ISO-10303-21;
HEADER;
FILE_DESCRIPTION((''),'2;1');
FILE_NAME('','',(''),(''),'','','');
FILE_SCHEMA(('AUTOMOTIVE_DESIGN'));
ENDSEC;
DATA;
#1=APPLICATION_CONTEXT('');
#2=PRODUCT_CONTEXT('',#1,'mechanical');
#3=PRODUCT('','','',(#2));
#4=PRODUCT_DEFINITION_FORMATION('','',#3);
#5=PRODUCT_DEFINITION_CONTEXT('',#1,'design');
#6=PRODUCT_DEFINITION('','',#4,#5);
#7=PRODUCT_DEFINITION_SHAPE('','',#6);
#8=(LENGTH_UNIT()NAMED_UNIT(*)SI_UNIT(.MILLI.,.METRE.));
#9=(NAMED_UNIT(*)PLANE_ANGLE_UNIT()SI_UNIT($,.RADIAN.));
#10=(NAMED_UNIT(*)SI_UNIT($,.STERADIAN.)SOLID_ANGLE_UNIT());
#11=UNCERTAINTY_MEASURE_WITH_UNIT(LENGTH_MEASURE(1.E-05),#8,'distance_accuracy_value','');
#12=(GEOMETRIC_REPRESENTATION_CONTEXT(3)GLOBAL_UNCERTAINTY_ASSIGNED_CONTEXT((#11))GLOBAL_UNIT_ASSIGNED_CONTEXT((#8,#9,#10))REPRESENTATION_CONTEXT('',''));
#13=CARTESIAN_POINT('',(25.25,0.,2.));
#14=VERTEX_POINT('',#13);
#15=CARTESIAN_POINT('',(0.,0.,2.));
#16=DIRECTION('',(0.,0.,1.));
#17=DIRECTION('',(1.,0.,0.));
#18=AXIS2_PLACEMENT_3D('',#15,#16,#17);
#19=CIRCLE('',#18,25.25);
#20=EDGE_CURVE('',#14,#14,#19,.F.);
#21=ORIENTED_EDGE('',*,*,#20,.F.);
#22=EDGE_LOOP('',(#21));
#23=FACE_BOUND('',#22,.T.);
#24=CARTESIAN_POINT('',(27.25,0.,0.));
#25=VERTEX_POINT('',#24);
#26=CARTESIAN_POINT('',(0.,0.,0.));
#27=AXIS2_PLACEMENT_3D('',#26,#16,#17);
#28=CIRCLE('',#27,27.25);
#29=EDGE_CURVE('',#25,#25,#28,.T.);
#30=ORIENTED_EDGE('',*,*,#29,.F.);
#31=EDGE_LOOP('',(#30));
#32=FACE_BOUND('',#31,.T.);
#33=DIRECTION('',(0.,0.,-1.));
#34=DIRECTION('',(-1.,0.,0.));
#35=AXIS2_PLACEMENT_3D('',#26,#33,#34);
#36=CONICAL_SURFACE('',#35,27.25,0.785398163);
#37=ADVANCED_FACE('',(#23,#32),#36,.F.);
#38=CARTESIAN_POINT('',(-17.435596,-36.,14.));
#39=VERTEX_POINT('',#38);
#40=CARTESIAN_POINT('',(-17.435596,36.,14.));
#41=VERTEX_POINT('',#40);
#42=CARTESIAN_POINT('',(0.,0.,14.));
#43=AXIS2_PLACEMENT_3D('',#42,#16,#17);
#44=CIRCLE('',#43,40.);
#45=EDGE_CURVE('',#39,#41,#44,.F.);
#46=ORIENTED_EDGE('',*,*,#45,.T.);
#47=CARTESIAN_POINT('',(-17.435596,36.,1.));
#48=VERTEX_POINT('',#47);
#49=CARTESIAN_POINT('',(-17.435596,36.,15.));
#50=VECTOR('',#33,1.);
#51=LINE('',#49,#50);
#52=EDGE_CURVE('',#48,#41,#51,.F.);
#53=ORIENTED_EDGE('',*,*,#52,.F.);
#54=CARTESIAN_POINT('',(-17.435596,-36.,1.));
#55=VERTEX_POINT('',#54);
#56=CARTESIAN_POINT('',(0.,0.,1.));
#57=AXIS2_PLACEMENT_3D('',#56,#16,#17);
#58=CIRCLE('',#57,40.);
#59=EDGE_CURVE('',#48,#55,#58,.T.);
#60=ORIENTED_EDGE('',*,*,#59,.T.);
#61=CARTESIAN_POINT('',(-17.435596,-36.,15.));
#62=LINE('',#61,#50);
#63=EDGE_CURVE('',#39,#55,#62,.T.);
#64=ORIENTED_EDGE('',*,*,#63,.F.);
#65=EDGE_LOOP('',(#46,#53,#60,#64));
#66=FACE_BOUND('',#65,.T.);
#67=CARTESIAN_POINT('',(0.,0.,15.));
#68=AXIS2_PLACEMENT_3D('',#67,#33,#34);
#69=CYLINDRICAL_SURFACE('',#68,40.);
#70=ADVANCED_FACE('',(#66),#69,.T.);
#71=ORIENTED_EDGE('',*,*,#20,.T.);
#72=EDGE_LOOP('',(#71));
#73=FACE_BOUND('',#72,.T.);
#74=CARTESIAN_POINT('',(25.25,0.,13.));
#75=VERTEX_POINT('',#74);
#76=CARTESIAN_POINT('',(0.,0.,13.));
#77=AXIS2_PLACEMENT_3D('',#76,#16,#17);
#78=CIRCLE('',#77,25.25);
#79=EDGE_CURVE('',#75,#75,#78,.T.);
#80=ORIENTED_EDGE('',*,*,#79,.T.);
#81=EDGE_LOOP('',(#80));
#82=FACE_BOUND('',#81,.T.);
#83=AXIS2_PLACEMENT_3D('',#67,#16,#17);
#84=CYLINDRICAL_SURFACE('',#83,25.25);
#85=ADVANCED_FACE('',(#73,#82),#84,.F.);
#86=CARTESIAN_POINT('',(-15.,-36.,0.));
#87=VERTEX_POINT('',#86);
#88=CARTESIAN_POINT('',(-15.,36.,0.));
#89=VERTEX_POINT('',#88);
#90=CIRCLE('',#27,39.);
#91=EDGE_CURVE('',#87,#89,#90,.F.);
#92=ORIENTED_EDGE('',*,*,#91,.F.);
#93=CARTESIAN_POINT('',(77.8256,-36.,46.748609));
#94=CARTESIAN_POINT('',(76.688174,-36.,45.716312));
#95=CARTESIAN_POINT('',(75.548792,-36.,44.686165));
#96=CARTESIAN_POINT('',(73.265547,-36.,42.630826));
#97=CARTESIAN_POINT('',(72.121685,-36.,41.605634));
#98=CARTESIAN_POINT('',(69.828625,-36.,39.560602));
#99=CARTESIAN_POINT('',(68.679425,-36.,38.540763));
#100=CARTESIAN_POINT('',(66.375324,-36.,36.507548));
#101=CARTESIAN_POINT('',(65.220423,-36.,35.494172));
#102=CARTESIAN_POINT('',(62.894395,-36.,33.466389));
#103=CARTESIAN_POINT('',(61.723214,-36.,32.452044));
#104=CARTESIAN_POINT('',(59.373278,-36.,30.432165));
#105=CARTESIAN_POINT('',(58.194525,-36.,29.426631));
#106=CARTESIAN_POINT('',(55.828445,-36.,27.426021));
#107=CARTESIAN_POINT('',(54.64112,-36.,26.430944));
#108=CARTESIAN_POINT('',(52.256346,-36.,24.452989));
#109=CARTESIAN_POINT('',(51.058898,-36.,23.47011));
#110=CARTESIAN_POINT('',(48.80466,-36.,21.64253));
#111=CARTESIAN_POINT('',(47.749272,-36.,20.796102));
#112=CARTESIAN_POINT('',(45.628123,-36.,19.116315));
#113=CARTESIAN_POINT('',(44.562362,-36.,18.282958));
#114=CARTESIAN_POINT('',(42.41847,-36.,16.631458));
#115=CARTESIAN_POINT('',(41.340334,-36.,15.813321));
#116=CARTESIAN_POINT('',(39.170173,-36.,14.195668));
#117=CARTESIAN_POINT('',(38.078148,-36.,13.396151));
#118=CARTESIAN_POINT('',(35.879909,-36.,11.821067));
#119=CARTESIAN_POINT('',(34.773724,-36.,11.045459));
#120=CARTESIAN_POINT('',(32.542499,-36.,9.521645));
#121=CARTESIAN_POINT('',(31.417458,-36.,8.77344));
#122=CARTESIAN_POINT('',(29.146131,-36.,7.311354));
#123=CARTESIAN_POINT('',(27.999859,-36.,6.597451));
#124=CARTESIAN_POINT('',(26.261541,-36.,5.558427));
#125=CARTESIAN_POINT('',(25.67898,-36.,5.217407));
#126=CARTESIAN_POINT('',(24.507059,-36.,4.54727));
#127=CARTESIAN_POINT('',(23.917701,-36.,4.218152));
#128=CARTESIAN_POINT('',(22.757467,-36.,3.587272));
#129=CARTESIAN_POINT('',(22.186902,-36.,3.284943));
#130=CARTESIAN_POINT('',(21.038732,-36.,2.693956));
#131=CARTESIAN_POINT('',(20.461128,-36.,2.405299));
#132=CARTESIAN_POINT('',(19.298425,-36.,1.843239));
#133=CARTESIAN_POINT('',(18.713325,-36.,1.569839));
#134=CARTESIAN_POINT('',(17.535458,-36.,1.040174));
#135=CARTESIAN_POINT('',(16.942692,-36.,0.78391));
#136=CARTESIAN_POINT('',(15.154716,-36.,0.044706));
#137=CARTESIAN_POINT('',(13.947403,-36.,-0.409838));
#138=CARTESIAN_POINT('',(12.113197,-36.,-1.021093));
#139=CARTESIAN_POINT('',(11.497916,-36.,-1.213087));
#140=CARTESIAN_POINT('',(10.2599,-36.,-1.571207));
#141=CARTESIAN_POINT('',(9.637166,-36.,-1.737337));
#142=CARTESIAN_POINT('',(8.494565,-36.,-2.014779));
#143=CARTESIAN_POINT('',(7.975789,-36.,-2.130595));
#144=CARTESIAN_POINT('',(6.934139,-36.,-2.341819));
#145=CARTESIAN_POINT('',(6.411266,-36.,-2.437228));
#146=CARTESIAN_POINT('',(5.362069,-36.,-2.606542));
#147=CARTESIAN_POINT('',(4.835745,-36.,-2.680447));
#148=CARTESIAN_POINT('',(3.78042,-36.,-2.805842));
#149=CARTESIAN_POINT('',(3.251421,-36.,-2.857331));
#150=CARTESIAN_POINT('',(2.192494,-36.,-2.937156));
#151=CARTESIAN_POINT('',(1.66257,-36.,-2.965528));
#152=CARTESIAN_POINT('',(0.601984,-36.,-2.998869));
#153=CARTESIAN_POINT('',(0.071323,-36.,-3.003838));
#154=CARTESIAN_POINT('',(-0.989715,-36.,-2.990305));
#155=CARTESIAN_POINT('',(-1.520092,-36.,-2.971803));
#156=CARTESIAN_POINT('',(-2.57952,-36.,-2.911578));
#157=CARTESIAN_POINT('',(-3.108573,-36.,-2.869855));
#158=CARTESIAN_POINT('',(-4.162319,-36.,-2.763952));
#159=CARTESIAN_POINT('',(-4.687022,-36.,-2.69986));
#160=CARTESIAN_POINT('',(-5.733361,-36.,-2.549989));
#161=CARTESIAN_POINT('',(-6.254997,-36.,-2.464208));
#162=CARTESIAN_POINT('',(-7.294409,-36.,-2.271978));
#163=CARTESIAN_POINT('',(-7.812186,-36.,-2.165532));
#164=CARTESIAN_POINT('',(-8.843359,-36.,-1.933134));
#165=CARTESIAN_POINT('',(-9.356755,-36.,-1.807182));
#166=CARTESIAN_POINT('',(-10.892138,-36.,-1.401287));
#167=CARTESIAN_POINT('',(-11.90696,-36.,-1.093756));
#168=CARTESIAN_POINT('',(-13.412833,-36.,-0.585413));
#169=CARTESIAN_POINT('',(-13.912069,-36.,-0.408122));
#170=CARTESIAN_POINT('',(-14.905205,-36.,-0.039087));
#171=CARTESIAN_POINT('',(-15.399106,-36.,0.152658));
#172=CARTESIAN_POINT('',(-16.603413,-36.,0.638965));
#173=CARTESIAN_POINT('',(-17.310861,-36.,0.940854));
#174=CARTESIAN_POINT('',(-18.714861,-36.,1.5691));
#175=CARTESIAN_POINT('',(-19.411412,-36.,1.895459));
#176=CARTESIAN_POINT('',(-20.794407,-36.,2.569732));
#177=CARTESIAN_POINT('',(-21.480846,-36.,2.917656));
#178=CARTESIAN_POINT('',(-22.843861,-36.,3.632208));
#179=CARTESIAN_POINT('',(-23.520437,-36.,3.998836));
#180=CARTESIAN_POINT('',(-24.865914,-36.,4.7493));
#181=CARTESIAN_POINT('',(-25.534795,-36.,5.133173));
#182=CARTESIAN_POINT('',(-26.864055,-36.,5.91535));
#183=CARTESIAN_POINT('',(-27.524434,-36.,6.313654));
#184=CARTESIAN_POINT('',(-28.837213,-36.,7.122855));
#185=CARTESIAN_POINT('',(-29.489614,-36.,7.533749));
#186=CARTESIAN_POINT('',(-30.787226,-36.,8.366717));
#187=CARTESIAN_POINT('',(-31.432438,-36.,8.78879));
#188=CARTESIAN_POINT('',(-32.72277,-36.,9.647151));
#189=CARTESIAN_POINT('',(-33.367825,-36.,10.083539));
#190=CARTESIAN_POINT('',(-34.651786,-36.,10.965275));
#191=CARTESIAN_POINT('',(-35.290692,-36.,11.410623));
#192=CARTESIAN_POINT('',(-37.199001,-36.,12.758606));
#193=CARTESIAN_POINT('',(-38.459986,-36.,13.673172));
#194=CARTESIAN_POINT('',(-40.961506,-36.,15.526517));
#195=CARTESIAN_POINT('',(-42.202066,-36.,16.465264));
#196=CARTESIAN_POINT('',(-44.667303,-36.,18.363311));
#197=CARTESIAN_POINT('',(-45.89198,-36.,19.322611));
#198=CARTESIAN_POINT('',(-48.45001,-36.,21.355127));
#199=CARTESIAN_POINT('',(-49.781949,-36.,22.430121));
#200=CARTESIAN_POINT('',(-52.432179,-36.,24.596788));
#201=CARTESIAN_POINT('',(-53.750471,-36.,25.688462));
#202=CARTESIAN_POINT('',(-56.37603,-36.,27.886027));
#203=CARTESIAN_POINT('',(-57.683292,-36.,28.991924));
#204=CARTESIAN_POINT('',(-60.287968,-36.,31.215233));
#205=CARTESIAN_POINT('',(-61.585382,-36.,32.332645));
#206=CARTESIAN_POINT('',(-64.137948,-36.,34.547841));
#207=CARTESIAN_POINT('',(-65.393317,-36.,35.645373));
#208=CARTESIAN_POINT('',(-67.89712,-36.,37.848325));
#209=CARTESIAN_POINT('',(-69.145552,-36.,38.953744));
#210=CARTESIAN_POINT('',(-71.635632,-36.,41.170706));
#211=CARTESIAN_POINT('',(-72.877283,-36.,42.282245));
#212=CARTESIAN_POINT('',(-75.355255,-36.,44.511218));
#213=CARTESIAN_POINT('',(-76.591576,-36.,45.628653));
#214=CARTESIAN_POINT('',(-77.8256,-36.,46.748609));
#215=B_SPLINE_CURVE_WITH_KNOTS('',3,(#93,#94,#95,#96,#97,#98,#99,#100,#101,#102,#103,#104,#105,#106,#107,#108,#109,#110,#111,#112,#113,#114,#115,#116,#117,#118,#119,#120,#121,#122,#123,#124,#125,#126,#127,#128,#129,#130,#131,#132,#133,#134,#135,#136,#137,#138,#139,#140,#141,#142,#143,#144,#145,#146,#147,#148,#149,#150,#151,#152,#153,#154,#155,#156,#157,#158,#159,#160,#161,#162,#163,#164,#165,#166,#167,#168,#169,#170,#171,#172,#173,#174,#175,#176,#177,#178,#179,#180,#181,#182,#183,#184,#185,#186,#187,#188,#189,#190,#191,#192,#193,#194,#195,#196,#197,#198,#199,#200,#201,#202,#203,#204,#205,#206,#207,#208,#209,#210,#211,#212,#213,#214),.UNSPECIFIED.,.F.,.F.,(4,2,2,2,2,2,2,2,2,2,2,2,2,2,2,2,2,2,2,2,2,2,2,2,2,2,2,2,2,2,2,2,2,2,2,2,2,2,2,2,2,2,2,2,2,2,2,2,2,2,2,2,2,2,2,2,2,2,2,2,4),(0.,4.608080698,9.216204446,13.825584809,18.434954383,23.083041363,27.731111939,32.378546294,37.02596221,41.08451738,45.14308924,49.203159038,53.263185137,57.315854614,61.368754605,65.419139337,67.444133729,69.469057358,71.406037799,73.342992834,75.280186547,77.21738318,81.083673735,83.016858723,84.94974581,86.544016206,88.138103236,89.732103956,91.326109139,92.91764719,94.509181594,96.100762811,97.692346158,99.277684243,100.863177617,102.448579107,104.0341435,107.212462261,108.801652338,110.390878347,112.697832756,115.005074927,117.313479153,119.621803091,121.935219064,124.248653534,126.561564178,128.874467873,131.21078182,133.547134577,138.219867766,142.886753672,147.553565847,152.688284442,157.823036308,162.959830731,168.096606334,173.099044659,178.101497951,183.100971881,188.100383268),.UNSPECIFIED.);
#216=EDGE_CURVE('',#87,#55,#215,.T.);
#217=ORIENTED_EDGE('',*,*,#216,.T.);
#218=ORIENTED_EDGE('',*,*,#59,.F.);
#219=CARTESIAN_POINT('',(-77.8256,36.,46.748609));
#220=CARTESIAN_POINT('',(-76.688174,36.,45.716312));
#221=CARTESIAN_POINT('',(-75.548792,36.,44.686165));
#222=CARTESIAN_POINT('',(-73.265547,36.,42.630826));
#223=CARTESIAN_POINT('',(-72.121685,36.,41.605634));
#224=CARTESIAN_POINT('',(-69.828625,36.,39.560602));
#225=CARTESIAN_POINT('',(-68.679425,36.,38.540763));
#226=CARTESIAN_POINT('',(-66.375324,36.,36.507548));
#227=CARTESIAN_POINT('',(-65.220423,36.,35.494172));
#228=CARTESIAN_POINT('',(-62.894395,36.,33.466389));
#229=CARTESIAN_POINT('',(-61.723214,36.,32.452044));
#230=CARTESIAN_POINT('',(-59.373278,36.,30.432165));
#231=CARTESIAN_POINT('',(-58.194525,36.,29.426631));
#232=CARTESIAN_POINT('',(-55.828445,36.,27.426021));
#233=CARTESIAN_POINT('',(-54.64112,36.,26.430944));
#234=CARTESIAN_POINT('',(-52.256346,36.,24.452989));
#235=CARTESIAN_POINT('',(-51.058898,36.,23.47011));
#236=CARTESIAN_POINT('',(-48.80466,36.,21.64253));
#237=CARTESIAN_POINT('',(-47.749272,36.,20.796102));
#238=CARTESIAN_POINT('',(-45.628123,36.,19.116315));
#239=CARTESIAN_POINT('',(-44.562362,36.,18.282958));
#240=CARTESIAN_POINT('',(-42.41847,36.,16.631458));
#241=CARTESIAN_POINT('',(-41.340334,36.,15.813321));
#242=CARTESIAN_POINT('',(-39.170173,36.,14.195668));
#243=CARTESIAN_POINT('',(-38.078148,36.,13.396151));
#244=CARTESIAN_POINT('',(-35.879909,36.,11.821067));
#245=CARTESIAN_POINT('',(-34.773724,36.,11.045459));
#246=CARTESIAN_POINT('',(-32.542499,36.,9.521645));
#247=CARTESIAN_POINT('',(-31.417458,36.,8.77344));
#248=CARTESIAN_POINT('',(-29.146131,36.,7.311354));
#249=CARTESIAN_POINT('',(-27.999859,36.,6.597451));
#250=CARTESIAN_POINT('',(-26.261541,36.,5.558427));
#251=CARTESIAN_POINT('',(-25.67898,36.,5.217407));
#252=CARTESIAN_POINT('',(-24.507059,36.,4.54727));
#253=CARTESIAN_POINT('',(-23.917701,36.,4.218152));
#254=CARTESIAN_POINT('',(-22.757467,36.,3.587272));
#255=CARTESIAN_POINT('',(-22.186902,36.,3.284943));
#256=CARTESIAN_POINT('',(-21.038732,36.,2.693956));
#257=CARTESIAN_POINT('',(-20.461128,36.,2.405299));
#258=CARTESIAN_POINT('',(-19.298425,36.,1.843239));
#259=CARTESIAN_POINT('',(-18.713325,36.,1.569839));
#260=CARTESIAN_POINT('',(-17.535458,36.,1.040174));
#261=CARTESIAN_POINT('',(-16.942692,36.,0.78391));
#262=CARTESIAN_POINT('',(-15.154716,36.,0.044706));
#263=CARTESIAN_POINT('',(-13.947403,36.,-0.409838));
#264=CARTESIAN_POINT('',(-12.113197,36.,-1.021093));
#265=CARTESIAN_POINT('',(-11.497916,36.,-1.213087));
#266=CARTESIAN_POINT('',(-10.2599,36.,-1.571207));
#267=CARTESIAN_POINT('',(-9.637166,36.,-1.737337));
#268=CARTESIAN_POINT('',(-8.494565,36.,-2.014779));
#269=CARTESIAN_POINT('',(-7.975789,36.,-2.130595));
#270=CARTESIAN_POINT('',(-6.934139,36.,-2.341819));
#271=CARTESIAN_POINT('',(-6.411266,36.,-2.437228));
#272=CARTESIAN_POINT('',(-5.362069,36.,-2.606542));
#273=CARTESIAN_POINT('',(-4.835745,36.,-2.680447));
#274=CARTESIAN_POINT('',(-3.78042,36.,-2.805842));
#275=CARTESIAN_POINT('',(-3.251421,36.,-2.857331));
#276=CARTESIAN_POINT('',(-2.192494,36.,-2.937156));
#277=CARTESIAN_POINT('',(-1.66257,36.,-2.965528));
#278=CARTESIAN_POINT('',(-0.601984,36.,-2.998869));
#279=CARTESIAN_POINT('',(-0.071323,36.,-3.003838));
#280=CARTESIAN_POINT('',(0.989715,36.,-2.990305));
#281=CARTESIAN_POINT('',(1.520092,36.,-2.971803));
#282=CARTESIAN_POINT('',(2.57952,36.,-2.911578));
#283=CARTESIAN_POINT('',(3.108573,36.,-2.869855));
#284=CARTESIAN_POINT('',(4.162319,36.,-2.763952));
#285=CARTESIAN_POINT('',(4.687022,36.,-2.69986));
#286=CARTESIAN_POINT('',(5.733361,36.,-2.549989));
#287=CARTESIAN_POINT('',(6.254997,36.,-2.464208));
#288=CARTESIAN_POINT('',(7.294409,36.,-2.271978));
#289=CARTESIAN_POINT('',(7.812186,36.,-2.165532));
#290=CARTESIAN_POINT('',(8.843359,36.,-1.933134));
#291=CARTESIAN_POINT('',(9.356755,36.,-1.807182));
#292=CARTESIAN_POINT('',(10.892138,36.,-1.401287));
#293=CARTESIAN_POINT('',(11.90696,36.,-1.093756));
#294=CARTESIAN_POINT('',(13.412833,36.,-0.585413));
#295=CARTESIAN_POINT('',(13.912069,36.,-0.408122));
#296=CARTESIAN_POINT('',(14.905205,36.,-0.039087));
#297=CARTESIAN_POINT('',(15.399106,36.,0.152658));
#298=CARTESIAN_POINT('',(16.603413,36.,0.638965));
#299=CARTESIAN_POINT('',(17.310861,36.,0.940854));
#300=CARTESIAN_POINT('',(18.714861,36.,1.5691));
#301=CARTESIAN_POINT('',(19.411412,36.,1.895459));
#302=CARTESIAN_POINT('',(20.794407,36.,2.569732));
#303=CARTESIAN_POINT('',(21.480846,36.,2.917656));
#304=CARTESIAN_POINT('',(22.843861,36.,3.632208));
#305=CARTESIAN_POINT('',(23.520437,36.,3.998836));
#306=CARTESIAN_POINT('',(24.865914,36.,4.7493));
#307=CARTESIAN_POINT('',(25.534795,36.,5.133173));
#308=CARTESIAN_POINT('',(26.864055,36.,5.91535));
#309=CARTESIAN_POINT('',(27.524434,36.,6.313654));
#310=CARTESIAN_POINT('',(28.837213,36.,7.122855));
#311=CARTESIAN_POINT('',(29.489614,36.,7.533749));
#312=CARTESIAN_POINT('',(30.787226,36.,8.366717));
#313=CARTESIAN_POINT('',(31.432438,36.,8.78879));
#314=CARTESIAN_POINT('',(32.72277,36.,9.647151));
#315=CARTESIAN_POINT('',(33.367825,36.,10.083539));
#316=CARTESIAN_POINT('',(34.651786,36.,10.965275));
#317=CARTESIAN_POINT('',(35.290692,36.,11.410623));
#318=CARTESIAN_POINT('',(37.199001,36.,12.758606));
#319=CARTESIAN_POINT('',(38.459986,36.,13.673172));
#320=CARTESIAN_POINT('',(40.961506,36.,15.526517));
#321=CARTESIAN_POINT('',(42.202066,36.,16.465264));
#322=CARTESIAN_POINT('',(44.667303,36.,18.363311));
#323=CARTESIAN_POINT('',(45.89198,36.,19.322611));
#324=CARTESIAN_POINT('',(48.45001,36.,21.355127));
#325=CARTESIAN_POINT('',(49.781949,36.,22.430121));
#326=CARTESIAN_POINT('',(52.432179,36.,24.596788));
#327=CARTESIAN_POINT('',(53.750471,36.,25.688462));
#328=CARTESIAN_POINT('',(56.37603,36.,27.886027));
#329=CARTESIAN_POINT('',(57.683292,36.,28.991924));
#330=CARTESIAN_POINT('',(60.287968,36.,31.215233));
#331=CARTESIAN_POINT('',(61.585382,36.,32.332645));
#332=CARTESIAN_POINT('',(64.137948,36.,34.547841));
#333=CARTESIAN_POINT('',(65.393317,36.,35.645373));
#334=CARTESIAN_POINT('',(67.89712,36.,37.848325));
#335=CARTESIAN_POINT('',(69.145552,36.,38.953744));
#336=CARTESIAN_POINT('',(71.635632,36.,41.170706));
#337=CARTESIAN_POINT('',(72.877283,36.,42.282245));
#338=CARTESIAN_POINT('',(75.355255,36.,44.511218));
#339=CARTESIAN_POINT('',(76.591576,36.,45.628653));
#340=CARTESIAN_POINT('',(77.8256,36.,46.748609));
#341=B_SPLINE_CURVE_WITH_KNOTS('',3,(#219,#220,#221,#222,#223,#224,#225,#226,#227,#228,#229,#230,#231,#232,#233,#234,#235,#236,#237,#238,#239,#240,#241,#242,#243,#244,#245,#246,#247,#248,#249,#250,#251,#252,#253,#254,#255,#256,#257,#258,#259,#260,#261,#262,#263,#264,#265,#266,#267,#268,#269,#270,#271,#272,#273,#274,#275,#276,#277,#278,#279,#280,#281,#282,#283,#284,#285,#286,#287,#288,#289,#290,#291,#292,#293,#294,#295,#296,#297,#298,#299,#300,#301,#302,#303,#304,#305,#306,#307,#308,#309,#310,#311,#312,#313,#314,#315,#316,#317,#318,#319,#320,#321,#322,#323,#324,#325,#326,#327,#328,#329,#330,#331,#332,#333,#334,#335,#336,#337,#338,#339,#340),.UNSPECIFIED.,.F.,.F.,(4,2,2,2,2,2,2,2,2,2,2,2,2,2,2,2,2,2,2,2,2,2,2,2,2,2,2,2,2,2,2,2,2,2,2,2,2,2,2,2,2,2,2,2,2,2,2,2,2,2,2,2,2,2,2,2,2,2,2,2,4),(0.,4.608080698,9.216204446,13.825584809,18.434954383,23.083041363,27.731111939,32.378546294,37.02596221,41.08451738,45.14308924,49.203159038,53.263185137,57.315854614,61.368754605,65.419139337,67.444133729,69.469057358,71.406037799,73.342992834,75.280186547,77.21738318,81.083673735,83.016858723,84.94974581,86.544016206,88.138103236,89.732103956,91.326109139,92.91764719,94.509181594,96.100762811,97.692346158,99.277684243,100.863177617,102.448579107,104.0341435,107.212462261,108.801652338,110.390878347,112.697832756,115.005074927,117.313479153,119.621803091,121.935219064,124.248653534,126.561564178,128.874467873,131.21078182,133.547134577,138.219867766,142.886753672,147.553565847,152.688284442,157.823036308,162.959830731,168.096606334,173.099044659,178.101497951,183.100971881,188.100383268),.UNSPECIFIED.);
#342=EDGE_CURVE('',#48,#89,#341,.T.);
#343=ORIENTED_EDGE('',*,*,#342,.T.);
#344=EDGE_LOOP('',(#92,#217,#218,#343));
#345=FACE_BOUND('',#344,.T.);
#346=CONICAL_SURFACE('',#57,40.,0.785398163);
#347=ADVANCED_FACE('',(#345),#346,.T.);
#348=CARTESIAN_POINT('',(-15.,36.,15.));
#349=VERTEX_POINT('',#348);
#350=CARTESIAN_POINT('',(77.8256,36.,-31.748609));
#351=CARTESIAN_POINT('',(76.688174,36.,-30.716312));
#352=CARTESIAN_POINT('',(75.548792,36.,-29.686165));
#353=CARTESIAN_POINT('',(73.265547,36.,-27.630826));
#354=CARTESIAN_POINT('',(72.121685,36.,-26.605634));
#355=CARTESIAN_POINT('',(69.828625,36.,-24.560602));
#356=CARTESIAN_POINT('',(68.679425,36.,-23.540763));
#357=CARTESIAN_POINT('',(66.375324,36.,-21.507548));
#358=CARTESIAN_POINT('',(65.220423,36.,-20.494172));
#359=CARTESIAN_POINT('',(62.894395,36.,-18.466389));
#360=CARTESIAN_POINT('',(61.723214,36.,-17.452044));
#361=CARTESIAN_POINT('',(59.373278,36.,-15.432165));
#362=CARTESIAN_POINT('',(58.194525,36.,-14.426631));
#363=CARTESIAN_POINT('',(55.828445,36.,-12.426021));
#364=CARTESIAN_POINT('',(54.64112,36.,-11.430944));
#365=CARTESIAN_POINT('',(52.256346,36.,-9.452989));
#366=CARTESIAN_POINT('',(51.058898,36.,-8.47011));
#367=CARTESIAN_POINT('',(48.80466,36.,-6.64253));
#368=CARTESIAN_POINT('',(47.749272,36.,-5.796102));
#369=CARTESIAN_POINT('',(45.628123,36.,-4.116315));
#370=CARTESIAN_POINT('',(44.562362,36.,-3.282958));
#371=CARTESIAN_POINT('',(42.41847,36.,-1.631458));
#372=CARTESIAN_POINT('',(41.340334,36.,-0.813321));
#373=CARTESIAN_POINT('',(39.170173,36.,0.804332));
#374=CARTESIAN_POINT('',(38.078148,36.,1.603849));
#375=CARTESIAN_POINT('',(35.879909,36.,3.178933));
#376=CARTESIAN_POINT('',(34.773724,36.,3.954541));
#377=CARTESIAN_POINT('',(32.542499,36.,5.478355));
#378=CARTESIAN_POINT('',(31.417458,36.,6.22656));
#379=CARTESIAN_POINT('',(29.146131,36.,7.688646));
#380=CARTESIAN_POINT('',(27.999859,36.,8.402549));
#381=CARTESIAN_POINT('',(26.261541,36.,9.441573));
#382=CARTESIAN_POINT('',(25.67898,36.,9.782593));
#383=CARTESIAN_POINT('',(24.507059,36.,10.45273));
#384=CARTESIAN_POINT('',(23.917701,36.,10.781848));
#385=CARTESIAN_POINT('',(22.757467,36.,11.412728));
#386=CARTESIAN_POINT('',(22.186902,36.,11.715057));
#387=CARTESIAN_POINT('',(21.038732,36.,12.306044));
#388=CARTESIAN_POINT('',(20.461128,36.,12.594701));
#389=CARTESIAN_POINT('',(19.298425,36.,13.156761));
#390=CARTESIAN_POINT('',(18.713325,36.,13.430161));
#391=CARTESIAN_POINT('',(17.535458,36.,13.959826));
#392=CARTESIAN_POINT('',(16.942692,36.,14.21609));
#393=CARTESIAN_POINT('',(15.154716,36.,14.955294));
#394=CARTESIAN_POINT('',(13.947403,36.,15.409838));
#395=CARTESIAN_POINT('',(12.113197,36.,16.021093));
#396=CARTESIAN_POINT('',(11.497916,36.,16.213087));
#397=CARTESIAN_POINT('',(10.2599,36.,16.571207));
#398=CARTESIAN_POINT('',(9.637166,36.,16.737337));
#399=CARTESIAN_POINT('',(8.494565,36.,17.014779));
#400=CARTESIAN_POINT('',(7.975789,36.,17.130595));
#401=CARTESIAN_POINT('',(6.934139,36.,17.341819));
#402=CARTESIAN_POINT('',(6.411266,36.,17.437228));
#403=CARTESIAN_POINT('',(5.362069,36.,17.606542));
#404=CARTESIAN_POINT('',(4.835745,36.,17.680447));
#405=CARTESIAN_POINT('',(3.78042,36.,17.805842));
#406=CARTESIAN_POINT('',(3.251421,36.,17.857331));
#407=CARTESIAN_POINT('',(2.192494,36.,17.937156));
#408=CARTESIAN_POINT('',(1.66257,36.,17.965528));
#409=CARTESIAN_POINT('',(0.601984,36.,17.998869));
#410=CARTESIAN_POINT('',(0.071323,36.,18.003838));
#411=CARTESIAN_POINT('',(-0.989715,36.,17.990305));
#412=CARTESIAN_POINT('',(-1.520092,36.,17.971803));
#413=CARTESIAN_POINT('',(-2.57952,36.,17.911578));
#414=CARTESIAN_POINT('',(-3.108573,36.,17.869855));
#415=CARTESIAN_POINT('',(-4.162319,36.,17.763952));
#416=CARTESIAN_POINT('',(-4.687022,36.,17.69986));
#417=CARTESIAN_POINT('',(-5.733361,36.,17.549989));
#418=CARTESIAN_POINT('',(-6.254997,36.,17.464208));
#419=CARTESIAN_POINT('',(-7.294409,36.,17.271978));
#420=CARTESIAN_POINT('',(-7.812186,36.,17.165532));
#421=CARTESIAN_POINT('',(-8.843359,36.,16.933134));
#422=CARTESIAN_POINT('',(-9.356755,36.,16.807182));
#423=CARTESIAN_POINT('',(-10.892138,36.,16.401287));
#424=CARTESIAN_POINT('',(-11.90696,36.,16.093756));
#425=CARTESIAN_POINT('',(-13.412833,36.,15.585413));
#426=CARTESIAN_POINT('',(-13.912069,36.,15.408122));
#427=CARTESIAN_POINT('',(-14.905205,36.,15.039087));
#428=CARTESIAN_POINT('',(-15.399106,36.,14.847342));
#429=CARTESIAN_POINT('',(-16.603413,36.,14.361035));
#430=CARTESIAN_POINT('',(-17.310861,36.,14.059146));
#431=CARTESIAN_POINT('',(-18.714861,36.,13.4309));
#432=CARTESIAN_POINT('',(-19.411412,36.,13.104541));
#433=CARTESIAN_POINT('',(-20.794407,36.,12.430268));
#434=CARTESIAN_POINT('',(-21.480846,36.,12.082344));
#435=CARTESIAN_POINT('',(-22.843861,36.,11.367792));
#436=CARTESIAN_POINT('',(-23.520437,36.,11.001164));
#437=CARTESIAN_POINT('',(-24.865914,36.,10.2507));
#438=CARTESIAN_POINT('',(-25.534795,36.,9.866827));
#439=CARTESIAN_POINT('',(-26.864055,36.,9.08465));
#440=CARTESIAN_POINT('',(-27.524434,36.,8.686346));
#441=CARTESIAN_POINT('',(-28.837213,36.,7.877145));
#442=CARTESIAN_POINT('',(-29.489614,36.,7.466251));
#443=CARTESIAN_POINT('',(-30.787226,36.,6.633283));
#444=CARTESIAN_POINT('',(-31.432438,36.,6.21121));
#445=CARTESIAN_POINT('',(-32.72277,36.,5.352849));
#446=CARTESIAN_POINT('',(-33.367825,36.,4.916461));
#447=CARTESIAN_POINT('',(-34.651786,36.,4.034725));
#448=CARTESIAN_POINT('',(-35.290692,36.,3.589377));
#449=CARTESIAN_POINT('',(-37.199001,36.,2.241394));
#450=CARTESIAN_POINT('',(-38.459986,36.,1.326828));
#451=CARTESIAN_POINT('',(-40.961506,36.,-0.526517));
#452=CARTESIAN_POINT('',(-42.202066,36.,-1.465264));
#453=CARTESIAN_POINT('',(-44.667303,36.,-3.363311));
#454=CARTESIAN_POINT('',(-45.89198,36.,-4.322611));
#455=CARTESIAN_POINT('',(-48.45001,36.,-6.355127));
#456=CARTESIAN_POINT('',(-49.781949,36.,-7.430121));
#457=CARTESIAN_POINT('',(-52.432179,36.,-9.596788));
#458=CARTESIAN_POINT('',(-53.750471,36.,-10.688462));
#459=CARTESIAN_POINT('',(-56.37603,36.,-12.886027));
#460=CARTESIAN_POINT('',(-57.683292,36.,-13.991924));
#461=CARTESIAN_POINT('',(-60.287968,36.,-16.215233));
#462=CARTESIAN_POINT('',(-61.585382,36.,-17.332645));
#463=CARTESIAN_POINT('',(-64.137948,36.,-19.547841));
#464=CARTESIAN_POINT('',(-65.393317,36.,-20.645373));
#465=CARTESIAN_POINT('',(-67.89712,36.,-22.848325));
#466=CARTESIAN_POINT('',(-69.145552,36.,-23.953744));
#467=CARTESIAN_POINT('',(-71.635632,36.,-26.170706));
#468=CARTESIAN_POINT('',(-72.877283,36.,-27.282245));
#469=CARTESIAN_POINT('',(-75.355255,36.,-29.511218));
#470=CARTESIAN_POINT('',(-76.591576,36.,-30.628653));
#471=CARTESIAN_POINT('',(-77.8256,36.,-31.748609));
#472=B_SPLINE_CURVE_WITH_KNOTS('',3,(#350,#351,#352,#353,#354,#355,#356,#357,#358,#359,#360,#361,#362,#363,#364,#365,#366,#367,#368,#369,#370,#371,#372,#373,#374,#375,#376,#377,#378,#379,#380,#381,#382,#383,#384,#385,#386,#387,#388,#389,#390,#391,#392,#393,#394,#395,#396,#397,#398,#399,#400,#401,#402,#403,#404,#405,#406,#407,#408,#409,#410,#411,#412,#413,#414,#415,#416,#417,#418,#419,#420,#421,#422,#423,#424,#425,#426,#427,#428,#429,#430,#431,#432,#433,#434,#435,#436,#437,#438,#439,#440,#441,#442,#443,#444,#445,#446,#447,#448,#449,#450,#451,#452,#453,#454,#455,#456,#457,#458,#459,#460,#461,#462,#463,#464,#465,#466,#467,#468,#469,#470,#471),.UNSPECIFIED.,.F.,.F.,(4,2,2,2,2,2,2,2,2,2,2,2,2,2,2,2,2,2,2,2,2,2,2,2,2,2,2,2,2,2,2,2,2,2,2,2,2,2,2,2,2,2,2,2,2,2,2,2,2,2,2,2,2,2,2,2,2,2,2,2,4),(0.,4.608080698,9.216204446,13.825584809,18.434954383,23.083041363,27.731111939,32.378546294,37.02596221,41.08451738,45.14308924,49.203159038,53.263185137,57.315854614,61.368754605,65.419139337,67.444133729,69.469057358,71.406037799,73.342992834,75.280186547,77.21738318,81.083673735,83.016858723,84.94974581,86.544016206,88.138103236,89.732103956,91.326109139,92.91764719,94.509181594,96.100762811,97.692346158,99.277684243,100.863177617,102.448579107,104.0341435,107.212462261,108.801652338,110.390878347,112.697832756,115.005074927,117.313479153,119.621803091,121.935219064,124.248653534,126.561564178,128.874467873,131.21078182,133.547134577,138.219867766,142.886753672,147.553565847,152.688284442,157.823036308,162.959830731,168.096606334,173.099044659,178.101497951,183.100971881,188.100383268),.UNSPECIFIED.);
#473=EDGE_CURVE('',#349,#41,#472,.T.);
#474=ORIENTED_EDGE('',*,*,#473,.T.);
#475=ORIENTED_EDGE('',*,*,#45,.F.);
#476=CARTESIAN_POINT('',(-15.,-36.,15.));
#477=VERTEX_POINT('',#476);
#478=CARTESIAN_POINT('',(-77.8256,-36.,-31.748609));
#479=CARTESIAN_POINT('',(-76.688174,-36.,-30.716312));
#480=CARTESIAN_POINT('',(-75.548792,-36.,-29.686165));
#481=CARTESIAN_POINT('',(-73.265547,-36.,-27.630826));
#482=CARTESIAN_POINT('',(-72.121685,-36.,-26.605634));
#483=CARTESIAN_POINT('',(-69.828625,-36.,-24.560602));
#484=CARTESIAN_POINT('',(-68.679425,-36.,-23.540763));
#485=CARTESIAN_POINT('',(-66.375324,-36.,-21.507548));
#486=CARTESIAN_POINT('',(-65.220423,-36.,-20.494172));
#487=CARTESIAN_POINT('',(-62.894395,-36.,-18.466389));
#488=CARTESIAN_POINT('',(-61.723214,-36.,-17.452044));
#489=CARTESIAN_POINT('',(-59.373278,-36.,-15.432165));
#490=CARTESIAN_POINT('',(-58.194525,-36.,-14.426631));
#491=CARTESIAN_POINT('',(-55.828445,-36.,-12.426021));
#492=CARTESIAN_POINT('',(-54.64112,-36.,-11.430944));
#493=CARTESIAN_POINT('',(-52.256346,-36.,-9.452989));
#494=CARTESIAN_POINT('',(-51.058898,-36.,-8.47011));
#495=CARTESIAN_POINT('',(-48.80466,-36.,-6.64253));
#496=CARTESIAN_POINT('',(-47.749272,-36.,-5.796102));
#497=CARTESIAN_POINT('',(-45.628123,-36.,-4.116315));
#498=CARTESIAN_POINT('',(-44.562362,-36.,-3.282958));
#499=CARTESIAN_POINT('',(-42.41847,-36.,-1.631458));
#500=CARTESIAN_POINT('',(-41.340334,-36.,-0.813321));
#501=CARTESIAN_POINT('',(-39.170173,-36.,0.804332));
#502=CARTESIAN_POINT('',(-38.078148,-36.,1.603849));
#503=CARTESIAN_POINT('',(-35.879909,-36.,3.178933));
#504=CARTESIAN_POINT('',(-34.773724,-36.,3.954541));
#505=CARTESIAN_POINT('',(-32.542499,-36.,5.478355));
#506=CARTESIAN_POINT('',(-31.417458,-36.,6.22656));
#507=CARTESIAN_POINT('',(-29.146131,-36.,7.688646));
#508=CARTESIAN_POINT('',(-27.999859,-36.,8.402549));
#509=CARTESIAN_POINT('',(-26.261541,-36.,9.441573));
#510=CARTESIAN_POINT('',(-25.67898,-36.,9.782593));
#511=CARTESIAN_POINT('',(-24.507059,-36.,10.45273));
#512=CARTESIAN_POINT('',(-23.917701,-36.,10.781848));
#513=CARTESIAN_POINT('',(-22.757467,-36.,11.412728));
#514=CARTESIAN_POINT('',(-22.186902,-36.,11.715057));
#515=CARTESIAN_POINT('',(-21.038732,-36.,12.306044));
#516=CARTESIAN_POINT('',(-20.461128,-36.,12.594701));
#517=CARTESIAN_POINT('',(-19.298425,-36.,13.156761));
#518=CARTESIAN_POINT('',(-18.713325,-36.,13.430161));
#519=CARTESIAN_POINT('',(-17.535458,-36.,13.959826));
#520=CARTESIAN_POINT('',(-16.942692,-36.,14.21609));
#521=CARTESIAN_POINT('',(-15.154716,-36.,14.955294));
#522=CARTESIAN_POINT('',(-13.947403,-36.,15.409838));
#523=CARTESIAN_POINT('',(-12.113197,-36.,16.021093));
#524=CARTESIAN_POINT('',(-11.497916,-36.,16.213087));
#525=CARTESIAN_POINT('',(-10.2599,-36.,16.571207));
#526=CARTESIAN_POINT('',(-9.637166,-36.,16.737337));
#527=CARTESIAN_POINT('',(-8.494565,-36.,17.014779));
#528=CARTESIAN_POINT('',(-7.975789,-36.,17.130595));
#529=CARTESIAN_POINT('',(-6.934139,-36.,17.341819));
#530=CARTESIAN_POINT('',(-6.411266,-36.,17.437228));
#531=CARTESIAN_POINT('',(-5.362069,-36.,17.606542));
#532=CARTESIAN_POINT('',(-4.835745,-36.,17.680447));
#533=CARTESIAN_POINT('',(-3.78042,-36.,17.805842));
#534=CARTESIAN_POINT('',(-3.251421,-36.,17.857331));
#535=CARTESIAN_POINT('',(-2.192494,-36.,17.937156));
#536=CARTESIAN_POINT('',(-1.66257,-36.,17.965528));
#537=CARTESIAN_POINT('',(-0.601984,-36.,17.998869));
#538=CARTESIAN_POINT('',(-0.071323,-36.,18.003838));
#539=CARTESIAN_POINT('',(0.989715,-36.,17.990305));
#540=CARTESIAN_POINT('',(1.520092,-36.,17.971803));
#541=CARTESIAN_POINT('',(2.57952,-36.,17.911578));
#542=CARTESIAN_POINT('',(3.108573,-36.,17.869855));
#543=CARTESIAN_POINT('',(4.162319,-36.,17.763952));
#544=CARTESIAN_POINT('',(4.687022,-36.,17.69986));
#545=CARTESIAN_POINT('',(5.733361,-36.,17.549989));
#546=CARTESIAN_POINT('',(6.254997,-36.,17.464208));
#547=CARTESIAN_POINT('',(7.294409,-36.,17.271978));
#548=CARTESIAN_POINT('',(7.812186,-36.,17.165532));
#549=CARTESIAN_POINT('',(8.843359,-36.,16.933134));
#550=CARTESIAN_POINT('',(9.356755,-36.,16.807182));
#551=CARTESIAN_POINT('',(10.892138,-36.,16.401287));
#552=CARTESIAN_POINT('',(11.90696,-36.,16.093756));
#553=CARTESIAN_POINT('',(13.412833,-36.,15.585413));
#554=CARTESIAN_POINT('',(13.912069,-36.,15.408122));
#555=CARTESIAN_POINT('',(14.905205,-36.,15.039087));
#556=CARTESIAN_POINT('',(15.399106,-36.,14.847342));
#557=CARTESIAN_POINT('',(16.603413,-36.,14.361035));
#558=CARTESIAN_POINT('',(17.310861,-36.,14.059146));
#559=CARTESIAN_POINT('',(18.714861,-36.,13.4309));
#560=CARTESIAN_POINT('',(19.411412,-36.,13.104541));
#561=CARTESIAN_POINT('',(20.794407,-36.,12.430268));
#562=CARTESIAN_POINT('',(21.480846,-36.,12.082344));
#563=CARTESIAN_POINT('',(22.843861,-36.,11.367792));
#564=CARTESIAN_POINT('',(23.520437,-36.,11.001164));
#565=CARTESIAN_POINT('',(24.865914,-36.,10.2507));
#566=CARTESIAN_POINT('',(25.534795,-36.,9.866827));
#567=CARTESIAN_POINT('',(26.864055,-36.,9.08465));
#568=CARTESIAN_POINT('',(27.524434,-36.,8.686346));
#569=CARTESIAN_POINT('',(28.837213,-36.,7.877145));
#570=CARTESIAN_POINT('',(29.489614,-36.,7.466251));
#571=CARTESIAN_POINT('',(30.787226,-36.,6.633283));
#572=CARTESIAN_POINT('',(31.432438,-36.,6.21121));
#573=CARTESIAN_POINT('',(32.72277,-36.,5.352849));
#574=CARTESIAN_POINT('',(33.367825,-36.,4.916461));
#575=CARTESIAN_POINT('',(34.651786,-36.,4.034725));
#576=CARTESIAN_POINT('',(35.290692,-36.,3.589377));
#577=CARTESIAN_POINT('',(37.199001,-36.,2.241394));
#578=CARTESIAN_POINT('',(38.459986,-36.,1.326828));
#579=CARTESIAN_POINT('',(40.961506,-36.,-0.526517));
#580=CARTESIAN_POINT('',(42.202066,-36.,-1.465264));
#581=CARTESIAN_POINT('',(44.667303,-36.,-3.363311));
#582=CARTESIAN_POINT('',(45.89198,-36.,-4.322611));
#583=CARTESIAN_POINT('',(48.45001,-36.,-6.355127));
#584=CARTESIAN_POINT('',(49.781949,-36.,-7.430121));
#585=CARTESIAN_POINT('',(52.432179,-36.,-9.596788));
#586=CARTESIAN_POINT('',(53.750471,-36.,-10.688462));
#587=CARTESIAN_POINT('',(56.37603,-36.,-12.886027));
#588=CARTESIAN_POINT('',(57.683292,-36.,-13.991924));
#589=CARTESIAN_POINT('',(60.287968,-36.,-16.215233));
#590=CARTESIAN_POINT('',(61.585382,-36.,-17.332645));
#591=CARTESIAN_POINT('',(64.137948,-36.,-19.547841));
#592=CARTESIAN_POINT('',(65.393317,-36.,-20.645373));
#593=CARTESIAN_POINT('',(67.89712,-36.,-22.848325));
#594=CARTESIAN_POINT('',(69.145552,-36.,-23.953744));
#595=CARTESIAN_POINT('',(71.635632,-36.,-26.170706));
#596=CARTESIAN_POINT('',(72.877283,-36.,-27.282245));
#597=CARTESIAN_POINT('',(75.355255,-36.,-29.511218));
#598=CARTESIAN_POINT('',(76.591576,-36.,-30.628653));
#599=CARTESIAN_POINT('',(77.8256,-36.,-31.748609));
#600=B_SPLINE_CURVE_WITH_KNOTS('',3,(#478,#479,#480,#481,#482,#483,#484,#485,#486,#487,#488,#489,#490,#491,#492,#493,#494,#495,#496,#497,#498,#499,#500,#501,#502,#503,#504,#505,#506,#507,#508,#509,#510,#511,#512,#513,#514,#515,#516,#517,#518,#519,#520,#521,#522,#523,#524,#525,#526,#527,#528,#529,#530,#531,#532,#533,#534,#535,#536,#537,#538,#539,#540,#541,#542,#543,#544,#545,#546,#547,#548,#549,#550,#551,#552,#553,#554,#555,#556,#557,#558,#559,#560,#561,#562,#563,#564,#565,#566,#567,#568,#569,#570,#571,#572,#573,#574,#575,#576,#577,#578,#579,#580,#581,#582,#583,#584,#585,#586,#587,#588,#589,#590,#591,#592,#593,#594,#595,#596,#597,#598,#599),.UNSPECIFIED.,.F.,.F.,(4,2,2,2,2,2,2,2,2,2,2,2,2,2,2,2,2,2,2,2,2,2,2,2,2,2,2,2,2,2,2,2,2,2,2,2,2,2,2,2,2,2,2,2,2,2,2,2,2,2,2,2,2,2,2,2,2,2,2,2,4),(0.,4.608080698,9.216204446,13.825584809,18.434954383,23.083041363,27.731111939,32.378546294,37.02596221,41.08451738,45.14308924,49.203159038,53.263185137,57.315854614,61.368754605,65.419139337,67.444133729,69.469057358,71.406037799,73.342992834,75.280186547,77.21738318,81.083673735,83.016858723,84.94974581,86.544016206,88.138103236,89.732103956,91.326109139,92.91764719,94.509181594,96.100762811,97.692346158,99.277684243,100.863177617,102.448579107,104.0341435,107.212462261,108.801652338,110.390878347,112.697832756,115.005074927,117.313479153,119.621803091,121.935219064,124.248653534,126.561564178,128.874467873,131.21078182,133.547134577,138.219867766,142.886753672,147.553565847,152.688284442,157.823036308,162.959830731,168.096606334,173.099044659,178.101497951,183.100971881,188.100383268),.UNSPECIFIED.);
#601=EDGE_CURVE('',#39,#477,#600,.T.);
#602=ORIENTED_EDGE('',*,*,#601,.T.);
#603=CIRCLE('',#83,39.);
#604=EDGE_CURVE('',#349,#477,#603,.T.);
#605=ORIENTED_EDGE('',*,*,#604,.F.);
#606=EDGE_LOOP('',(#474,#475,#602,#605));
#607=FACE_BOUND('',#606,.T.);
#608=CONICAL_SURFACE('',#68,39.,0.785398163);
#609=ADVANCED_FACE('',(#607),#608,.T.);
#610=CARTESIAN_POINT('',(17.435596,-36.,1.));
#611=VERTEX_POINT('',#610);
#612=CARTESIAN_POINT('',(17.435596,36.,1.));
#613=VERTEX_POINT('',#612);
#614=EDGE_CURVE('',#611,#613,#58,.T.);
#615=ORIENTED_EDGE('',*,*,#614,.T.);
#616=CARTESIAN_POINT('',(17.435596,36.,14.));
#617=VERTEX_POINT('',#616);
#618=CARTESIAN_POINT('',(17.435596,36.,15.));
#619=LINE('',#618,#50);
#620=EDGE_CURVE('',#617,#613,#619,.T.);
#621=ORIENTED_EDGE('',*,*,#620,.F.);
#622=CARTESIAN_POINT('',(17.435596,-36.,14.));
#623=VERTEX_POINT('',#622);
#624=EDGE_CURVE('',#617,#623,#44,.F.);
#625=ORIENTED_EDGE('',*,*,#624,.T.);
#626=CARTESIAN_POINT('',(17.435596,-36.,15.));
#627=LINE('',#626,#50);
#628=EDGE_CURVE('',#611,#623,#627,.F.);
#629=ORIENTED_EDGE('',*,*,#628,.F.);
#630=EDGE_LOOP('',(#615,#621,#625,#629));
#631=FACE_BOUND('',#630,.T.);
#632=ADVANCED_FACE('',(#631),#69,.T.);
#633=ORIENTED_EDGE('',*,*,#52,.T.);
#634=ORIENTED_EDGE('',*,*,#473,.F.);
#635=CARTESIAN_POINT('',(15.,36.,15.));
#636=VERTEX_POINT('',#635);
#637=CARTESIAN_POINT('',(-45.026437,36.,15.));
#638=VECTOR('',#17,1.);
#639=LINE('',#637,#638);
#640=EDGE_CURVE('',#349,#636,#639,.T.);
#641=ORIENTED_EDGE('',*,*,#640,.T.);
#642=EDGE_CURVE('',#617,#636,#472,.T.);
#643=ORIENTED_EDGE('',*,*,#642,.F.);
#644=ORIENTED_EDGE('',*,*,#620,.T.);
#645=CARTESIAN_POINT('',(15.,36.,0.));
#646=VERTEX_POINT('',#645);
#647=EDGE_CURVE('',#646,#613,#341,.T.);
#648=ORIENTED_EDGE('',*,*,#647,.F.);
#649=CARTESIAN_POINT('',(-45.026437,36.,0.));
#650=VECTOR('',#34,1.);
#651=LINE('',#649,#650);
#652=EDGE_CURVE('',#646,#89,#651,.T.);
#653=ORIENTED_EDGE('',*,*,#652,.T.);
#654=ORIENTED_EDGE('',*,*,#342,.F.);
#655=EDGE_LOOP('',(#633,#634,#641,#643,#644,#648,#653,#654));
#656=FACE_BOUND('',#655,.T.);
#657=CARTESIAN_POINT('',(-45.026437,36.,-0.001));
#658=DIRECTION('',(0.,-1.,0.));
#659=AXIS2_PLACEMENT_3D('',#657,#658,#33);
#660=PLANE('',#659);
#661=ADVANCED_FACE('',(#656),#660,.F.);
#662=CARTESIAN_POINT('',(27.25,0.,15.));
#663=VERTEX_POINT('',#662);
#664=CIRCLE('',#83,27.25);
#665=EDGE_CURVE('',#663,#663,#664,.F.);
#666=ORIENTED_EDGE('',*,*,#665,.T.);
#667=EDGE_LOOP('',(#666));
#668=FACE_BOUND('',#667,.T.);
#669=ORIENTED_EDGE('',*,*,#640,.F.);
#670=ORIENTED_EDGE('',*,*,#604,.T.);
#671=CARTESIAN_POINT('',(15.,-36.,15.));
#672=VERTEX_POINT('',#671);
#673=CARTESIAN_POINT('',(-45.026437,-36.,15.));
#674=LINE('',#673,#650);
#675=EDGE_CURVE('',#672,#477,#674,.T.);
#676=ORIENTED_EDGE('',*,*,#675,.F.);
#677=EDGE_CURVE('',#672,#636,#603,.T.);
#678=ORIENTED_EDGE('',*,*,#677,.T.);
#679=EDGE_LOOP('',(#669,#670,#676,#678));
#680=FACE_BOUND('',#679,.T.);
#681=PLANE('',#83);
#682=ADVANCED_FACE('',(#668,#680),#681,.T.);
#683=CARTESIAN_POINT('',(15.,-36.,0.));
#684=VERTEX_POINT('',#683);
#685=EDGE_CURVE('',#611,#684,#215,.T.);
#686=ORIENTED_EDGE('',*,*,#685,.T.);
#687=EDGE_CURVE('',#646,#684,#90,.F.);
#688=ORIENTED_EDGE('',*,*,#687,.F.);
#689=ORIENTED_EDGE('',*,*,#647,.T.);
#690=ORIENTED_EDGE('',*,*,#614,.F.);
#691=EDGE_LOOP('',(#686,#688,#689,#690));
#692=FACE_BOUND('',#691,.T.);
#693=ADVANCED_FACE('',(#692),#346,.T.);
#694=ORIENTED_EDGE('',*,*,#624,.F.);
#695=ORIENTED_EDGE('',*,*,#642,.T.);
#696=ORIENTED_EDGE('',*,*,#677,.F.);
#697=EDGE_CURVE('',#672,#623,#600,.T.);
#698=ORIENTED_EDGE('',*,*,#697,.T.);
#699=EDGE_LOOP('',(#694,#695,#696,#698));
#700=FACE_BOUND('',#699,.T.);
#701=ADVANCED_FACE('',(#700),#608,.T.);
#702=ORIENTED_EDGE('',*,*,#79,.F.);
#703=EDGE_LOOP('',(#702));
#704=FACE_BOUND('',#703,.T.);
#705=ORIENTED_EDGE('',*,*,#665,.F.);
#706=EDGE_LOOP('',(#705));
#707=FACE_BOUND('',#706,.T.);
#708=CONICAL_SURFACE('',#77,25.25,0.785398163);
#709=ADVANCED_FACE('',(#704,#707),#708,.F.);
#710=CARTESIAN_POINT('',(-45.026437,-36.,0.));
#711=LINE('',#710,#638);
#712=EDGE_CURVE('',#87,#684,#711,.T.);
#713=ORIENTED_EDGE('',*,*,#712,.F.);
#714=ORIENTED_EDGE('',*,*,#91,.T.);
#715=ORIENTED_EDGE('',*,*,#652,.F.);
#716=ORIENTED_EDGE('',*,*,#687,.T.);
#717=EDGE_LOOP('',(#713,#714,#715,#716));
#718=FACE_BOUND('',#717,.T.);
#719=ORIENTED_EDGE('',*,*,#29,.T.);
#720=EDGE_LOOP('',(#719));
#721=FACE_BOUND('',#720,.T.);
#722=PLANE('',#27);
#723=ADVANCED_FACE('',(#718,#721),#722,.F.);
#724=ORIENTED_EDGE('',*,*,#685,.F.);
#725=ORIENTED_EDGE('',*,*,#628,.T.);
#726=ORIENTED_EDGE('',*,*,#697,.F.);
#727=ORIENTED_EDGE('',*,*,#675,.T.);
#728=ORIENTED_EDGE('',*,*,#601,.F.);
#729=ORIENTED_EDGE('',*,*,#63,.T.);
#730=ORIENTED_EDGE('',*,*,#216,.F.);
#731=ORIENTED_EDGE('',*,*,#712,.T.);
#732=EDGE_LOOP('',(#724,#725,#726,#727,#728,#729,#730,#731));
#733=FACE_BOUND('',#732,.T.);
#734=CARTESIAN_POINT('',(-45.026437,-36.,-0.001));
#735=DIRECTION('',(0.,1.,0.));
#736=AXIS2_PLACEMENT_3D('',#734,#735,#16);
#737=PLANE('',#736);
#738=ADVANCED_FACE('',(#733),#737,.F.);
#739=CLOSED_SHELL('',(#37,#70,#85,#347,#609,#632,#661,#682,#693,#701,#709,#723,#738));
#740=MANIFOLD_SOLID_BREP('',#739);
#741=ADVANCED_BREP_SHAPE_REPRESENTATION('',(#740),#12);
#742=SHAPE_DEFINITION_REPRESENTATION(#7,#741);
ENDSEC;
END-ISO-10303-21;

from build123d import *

# Parameters (mm, degrees)
SZKIC1_R                    = 40
DODANIE_WYCI_GNI_CIE1_DEPTH = 15
OTW_R_GWINTOWANY_M561_D     = 50.5
SFAZOWANIE1_SIZE            = 2
SFAZOWANIE2_SIZE            = 1
WYTNIJ_WYCI_GNI_CIE1_REACH  = 60.523
SZKIC4_W                    = 81.267228601
SZKIC4_H                    = 11.1112586


with BuildPart() as part:
    # Szkic1 → Dodanie-wyciągnięcie1 (new body)
    with BuildSketch(Plane.XY):
        Circle(SZKIC1_R)
    extrude(amount=DODANIE_WYCI_GNI_CIE1_DEPTH)

    # Otwór gwintowany M561 (through all)
    with Locations(Plane.XY.offset(15)):
        with Locations((0, 0)):
            Hole(OTW_R_GWINTOWANY_M561_D / 2)

    # Sfazowanie1
    sfazowanie1_edges = [part.edges().sort_by_distance(p)[0] for p in [
        (25.25, 0, 15),
        (25.25, 0, 0),
    ]]
    chamfer(sfazowanie1_edges, length=SFAZOWANIE1_SIZE)

    # Sfazowanie2
    sfazowanie2_edges = [part.edges().sort_by_distance(p)[0] for p in [
        (-40, 0, 0),
        (-40, 0, 15),
    ]]
    chamfer(sfazowanie2_edges, length=SFAZOWANIE2_SIZE)

    # Szkic4 → Wytnij-wyciągnięcie1 (cut, up to next)
    with BuildSketch(Plane.XY.offset(15), mode=Mode.PRIVATE) as wytnij_wyci_gni_cie1_sk1:
        with Locations((-4.392823168, -41.5556293)):
            Rectangle(SZKIC4_W, SZKIC4_H)
    wytnij_wyci_gni_cie1_tool1 = extrude(wytnij_wyci_gni_cie1_sk1.sketch, amount=-WYTNIJ_WYCI_GNI_CIE1_REACH, mode=Mode.PRIVATE) & part.part
    # Szkic4 → Wytnij-wyciągnięcie1 (cut, up to next)
    with BuildSketch(Plane.XY.offset(15), mode=Mode.PRIVATE) as wytnij_wyci_gni_cie1_sk2:
        with Locations((-4.392823168, 41.5556293)):
            Rectangle(SZKIC4_W, SZKIC4_H)
    wytnij_wyci_gni_cie1_tool2 = extrude(wytnij_wyci_gni_cie1_sk2.sketch, amount=-WYTNIJ_WYCI_GNI_CIE1_REACH, mode=Mode.PRIVATE) & part.part
    add(wytnij_wyci_gni_cie1_tool1.solids().sort_by_distance((-4.392823, -41.555629, 15))[0], mode=Mode.SUBTRACT)
    add(wytnij_wyci_gni_cie1_tool2.solids().sort_by_distance((-4.392823, 41.555629, 15))[0], mode=Mode.SUBTRACT)


solid = part.part
